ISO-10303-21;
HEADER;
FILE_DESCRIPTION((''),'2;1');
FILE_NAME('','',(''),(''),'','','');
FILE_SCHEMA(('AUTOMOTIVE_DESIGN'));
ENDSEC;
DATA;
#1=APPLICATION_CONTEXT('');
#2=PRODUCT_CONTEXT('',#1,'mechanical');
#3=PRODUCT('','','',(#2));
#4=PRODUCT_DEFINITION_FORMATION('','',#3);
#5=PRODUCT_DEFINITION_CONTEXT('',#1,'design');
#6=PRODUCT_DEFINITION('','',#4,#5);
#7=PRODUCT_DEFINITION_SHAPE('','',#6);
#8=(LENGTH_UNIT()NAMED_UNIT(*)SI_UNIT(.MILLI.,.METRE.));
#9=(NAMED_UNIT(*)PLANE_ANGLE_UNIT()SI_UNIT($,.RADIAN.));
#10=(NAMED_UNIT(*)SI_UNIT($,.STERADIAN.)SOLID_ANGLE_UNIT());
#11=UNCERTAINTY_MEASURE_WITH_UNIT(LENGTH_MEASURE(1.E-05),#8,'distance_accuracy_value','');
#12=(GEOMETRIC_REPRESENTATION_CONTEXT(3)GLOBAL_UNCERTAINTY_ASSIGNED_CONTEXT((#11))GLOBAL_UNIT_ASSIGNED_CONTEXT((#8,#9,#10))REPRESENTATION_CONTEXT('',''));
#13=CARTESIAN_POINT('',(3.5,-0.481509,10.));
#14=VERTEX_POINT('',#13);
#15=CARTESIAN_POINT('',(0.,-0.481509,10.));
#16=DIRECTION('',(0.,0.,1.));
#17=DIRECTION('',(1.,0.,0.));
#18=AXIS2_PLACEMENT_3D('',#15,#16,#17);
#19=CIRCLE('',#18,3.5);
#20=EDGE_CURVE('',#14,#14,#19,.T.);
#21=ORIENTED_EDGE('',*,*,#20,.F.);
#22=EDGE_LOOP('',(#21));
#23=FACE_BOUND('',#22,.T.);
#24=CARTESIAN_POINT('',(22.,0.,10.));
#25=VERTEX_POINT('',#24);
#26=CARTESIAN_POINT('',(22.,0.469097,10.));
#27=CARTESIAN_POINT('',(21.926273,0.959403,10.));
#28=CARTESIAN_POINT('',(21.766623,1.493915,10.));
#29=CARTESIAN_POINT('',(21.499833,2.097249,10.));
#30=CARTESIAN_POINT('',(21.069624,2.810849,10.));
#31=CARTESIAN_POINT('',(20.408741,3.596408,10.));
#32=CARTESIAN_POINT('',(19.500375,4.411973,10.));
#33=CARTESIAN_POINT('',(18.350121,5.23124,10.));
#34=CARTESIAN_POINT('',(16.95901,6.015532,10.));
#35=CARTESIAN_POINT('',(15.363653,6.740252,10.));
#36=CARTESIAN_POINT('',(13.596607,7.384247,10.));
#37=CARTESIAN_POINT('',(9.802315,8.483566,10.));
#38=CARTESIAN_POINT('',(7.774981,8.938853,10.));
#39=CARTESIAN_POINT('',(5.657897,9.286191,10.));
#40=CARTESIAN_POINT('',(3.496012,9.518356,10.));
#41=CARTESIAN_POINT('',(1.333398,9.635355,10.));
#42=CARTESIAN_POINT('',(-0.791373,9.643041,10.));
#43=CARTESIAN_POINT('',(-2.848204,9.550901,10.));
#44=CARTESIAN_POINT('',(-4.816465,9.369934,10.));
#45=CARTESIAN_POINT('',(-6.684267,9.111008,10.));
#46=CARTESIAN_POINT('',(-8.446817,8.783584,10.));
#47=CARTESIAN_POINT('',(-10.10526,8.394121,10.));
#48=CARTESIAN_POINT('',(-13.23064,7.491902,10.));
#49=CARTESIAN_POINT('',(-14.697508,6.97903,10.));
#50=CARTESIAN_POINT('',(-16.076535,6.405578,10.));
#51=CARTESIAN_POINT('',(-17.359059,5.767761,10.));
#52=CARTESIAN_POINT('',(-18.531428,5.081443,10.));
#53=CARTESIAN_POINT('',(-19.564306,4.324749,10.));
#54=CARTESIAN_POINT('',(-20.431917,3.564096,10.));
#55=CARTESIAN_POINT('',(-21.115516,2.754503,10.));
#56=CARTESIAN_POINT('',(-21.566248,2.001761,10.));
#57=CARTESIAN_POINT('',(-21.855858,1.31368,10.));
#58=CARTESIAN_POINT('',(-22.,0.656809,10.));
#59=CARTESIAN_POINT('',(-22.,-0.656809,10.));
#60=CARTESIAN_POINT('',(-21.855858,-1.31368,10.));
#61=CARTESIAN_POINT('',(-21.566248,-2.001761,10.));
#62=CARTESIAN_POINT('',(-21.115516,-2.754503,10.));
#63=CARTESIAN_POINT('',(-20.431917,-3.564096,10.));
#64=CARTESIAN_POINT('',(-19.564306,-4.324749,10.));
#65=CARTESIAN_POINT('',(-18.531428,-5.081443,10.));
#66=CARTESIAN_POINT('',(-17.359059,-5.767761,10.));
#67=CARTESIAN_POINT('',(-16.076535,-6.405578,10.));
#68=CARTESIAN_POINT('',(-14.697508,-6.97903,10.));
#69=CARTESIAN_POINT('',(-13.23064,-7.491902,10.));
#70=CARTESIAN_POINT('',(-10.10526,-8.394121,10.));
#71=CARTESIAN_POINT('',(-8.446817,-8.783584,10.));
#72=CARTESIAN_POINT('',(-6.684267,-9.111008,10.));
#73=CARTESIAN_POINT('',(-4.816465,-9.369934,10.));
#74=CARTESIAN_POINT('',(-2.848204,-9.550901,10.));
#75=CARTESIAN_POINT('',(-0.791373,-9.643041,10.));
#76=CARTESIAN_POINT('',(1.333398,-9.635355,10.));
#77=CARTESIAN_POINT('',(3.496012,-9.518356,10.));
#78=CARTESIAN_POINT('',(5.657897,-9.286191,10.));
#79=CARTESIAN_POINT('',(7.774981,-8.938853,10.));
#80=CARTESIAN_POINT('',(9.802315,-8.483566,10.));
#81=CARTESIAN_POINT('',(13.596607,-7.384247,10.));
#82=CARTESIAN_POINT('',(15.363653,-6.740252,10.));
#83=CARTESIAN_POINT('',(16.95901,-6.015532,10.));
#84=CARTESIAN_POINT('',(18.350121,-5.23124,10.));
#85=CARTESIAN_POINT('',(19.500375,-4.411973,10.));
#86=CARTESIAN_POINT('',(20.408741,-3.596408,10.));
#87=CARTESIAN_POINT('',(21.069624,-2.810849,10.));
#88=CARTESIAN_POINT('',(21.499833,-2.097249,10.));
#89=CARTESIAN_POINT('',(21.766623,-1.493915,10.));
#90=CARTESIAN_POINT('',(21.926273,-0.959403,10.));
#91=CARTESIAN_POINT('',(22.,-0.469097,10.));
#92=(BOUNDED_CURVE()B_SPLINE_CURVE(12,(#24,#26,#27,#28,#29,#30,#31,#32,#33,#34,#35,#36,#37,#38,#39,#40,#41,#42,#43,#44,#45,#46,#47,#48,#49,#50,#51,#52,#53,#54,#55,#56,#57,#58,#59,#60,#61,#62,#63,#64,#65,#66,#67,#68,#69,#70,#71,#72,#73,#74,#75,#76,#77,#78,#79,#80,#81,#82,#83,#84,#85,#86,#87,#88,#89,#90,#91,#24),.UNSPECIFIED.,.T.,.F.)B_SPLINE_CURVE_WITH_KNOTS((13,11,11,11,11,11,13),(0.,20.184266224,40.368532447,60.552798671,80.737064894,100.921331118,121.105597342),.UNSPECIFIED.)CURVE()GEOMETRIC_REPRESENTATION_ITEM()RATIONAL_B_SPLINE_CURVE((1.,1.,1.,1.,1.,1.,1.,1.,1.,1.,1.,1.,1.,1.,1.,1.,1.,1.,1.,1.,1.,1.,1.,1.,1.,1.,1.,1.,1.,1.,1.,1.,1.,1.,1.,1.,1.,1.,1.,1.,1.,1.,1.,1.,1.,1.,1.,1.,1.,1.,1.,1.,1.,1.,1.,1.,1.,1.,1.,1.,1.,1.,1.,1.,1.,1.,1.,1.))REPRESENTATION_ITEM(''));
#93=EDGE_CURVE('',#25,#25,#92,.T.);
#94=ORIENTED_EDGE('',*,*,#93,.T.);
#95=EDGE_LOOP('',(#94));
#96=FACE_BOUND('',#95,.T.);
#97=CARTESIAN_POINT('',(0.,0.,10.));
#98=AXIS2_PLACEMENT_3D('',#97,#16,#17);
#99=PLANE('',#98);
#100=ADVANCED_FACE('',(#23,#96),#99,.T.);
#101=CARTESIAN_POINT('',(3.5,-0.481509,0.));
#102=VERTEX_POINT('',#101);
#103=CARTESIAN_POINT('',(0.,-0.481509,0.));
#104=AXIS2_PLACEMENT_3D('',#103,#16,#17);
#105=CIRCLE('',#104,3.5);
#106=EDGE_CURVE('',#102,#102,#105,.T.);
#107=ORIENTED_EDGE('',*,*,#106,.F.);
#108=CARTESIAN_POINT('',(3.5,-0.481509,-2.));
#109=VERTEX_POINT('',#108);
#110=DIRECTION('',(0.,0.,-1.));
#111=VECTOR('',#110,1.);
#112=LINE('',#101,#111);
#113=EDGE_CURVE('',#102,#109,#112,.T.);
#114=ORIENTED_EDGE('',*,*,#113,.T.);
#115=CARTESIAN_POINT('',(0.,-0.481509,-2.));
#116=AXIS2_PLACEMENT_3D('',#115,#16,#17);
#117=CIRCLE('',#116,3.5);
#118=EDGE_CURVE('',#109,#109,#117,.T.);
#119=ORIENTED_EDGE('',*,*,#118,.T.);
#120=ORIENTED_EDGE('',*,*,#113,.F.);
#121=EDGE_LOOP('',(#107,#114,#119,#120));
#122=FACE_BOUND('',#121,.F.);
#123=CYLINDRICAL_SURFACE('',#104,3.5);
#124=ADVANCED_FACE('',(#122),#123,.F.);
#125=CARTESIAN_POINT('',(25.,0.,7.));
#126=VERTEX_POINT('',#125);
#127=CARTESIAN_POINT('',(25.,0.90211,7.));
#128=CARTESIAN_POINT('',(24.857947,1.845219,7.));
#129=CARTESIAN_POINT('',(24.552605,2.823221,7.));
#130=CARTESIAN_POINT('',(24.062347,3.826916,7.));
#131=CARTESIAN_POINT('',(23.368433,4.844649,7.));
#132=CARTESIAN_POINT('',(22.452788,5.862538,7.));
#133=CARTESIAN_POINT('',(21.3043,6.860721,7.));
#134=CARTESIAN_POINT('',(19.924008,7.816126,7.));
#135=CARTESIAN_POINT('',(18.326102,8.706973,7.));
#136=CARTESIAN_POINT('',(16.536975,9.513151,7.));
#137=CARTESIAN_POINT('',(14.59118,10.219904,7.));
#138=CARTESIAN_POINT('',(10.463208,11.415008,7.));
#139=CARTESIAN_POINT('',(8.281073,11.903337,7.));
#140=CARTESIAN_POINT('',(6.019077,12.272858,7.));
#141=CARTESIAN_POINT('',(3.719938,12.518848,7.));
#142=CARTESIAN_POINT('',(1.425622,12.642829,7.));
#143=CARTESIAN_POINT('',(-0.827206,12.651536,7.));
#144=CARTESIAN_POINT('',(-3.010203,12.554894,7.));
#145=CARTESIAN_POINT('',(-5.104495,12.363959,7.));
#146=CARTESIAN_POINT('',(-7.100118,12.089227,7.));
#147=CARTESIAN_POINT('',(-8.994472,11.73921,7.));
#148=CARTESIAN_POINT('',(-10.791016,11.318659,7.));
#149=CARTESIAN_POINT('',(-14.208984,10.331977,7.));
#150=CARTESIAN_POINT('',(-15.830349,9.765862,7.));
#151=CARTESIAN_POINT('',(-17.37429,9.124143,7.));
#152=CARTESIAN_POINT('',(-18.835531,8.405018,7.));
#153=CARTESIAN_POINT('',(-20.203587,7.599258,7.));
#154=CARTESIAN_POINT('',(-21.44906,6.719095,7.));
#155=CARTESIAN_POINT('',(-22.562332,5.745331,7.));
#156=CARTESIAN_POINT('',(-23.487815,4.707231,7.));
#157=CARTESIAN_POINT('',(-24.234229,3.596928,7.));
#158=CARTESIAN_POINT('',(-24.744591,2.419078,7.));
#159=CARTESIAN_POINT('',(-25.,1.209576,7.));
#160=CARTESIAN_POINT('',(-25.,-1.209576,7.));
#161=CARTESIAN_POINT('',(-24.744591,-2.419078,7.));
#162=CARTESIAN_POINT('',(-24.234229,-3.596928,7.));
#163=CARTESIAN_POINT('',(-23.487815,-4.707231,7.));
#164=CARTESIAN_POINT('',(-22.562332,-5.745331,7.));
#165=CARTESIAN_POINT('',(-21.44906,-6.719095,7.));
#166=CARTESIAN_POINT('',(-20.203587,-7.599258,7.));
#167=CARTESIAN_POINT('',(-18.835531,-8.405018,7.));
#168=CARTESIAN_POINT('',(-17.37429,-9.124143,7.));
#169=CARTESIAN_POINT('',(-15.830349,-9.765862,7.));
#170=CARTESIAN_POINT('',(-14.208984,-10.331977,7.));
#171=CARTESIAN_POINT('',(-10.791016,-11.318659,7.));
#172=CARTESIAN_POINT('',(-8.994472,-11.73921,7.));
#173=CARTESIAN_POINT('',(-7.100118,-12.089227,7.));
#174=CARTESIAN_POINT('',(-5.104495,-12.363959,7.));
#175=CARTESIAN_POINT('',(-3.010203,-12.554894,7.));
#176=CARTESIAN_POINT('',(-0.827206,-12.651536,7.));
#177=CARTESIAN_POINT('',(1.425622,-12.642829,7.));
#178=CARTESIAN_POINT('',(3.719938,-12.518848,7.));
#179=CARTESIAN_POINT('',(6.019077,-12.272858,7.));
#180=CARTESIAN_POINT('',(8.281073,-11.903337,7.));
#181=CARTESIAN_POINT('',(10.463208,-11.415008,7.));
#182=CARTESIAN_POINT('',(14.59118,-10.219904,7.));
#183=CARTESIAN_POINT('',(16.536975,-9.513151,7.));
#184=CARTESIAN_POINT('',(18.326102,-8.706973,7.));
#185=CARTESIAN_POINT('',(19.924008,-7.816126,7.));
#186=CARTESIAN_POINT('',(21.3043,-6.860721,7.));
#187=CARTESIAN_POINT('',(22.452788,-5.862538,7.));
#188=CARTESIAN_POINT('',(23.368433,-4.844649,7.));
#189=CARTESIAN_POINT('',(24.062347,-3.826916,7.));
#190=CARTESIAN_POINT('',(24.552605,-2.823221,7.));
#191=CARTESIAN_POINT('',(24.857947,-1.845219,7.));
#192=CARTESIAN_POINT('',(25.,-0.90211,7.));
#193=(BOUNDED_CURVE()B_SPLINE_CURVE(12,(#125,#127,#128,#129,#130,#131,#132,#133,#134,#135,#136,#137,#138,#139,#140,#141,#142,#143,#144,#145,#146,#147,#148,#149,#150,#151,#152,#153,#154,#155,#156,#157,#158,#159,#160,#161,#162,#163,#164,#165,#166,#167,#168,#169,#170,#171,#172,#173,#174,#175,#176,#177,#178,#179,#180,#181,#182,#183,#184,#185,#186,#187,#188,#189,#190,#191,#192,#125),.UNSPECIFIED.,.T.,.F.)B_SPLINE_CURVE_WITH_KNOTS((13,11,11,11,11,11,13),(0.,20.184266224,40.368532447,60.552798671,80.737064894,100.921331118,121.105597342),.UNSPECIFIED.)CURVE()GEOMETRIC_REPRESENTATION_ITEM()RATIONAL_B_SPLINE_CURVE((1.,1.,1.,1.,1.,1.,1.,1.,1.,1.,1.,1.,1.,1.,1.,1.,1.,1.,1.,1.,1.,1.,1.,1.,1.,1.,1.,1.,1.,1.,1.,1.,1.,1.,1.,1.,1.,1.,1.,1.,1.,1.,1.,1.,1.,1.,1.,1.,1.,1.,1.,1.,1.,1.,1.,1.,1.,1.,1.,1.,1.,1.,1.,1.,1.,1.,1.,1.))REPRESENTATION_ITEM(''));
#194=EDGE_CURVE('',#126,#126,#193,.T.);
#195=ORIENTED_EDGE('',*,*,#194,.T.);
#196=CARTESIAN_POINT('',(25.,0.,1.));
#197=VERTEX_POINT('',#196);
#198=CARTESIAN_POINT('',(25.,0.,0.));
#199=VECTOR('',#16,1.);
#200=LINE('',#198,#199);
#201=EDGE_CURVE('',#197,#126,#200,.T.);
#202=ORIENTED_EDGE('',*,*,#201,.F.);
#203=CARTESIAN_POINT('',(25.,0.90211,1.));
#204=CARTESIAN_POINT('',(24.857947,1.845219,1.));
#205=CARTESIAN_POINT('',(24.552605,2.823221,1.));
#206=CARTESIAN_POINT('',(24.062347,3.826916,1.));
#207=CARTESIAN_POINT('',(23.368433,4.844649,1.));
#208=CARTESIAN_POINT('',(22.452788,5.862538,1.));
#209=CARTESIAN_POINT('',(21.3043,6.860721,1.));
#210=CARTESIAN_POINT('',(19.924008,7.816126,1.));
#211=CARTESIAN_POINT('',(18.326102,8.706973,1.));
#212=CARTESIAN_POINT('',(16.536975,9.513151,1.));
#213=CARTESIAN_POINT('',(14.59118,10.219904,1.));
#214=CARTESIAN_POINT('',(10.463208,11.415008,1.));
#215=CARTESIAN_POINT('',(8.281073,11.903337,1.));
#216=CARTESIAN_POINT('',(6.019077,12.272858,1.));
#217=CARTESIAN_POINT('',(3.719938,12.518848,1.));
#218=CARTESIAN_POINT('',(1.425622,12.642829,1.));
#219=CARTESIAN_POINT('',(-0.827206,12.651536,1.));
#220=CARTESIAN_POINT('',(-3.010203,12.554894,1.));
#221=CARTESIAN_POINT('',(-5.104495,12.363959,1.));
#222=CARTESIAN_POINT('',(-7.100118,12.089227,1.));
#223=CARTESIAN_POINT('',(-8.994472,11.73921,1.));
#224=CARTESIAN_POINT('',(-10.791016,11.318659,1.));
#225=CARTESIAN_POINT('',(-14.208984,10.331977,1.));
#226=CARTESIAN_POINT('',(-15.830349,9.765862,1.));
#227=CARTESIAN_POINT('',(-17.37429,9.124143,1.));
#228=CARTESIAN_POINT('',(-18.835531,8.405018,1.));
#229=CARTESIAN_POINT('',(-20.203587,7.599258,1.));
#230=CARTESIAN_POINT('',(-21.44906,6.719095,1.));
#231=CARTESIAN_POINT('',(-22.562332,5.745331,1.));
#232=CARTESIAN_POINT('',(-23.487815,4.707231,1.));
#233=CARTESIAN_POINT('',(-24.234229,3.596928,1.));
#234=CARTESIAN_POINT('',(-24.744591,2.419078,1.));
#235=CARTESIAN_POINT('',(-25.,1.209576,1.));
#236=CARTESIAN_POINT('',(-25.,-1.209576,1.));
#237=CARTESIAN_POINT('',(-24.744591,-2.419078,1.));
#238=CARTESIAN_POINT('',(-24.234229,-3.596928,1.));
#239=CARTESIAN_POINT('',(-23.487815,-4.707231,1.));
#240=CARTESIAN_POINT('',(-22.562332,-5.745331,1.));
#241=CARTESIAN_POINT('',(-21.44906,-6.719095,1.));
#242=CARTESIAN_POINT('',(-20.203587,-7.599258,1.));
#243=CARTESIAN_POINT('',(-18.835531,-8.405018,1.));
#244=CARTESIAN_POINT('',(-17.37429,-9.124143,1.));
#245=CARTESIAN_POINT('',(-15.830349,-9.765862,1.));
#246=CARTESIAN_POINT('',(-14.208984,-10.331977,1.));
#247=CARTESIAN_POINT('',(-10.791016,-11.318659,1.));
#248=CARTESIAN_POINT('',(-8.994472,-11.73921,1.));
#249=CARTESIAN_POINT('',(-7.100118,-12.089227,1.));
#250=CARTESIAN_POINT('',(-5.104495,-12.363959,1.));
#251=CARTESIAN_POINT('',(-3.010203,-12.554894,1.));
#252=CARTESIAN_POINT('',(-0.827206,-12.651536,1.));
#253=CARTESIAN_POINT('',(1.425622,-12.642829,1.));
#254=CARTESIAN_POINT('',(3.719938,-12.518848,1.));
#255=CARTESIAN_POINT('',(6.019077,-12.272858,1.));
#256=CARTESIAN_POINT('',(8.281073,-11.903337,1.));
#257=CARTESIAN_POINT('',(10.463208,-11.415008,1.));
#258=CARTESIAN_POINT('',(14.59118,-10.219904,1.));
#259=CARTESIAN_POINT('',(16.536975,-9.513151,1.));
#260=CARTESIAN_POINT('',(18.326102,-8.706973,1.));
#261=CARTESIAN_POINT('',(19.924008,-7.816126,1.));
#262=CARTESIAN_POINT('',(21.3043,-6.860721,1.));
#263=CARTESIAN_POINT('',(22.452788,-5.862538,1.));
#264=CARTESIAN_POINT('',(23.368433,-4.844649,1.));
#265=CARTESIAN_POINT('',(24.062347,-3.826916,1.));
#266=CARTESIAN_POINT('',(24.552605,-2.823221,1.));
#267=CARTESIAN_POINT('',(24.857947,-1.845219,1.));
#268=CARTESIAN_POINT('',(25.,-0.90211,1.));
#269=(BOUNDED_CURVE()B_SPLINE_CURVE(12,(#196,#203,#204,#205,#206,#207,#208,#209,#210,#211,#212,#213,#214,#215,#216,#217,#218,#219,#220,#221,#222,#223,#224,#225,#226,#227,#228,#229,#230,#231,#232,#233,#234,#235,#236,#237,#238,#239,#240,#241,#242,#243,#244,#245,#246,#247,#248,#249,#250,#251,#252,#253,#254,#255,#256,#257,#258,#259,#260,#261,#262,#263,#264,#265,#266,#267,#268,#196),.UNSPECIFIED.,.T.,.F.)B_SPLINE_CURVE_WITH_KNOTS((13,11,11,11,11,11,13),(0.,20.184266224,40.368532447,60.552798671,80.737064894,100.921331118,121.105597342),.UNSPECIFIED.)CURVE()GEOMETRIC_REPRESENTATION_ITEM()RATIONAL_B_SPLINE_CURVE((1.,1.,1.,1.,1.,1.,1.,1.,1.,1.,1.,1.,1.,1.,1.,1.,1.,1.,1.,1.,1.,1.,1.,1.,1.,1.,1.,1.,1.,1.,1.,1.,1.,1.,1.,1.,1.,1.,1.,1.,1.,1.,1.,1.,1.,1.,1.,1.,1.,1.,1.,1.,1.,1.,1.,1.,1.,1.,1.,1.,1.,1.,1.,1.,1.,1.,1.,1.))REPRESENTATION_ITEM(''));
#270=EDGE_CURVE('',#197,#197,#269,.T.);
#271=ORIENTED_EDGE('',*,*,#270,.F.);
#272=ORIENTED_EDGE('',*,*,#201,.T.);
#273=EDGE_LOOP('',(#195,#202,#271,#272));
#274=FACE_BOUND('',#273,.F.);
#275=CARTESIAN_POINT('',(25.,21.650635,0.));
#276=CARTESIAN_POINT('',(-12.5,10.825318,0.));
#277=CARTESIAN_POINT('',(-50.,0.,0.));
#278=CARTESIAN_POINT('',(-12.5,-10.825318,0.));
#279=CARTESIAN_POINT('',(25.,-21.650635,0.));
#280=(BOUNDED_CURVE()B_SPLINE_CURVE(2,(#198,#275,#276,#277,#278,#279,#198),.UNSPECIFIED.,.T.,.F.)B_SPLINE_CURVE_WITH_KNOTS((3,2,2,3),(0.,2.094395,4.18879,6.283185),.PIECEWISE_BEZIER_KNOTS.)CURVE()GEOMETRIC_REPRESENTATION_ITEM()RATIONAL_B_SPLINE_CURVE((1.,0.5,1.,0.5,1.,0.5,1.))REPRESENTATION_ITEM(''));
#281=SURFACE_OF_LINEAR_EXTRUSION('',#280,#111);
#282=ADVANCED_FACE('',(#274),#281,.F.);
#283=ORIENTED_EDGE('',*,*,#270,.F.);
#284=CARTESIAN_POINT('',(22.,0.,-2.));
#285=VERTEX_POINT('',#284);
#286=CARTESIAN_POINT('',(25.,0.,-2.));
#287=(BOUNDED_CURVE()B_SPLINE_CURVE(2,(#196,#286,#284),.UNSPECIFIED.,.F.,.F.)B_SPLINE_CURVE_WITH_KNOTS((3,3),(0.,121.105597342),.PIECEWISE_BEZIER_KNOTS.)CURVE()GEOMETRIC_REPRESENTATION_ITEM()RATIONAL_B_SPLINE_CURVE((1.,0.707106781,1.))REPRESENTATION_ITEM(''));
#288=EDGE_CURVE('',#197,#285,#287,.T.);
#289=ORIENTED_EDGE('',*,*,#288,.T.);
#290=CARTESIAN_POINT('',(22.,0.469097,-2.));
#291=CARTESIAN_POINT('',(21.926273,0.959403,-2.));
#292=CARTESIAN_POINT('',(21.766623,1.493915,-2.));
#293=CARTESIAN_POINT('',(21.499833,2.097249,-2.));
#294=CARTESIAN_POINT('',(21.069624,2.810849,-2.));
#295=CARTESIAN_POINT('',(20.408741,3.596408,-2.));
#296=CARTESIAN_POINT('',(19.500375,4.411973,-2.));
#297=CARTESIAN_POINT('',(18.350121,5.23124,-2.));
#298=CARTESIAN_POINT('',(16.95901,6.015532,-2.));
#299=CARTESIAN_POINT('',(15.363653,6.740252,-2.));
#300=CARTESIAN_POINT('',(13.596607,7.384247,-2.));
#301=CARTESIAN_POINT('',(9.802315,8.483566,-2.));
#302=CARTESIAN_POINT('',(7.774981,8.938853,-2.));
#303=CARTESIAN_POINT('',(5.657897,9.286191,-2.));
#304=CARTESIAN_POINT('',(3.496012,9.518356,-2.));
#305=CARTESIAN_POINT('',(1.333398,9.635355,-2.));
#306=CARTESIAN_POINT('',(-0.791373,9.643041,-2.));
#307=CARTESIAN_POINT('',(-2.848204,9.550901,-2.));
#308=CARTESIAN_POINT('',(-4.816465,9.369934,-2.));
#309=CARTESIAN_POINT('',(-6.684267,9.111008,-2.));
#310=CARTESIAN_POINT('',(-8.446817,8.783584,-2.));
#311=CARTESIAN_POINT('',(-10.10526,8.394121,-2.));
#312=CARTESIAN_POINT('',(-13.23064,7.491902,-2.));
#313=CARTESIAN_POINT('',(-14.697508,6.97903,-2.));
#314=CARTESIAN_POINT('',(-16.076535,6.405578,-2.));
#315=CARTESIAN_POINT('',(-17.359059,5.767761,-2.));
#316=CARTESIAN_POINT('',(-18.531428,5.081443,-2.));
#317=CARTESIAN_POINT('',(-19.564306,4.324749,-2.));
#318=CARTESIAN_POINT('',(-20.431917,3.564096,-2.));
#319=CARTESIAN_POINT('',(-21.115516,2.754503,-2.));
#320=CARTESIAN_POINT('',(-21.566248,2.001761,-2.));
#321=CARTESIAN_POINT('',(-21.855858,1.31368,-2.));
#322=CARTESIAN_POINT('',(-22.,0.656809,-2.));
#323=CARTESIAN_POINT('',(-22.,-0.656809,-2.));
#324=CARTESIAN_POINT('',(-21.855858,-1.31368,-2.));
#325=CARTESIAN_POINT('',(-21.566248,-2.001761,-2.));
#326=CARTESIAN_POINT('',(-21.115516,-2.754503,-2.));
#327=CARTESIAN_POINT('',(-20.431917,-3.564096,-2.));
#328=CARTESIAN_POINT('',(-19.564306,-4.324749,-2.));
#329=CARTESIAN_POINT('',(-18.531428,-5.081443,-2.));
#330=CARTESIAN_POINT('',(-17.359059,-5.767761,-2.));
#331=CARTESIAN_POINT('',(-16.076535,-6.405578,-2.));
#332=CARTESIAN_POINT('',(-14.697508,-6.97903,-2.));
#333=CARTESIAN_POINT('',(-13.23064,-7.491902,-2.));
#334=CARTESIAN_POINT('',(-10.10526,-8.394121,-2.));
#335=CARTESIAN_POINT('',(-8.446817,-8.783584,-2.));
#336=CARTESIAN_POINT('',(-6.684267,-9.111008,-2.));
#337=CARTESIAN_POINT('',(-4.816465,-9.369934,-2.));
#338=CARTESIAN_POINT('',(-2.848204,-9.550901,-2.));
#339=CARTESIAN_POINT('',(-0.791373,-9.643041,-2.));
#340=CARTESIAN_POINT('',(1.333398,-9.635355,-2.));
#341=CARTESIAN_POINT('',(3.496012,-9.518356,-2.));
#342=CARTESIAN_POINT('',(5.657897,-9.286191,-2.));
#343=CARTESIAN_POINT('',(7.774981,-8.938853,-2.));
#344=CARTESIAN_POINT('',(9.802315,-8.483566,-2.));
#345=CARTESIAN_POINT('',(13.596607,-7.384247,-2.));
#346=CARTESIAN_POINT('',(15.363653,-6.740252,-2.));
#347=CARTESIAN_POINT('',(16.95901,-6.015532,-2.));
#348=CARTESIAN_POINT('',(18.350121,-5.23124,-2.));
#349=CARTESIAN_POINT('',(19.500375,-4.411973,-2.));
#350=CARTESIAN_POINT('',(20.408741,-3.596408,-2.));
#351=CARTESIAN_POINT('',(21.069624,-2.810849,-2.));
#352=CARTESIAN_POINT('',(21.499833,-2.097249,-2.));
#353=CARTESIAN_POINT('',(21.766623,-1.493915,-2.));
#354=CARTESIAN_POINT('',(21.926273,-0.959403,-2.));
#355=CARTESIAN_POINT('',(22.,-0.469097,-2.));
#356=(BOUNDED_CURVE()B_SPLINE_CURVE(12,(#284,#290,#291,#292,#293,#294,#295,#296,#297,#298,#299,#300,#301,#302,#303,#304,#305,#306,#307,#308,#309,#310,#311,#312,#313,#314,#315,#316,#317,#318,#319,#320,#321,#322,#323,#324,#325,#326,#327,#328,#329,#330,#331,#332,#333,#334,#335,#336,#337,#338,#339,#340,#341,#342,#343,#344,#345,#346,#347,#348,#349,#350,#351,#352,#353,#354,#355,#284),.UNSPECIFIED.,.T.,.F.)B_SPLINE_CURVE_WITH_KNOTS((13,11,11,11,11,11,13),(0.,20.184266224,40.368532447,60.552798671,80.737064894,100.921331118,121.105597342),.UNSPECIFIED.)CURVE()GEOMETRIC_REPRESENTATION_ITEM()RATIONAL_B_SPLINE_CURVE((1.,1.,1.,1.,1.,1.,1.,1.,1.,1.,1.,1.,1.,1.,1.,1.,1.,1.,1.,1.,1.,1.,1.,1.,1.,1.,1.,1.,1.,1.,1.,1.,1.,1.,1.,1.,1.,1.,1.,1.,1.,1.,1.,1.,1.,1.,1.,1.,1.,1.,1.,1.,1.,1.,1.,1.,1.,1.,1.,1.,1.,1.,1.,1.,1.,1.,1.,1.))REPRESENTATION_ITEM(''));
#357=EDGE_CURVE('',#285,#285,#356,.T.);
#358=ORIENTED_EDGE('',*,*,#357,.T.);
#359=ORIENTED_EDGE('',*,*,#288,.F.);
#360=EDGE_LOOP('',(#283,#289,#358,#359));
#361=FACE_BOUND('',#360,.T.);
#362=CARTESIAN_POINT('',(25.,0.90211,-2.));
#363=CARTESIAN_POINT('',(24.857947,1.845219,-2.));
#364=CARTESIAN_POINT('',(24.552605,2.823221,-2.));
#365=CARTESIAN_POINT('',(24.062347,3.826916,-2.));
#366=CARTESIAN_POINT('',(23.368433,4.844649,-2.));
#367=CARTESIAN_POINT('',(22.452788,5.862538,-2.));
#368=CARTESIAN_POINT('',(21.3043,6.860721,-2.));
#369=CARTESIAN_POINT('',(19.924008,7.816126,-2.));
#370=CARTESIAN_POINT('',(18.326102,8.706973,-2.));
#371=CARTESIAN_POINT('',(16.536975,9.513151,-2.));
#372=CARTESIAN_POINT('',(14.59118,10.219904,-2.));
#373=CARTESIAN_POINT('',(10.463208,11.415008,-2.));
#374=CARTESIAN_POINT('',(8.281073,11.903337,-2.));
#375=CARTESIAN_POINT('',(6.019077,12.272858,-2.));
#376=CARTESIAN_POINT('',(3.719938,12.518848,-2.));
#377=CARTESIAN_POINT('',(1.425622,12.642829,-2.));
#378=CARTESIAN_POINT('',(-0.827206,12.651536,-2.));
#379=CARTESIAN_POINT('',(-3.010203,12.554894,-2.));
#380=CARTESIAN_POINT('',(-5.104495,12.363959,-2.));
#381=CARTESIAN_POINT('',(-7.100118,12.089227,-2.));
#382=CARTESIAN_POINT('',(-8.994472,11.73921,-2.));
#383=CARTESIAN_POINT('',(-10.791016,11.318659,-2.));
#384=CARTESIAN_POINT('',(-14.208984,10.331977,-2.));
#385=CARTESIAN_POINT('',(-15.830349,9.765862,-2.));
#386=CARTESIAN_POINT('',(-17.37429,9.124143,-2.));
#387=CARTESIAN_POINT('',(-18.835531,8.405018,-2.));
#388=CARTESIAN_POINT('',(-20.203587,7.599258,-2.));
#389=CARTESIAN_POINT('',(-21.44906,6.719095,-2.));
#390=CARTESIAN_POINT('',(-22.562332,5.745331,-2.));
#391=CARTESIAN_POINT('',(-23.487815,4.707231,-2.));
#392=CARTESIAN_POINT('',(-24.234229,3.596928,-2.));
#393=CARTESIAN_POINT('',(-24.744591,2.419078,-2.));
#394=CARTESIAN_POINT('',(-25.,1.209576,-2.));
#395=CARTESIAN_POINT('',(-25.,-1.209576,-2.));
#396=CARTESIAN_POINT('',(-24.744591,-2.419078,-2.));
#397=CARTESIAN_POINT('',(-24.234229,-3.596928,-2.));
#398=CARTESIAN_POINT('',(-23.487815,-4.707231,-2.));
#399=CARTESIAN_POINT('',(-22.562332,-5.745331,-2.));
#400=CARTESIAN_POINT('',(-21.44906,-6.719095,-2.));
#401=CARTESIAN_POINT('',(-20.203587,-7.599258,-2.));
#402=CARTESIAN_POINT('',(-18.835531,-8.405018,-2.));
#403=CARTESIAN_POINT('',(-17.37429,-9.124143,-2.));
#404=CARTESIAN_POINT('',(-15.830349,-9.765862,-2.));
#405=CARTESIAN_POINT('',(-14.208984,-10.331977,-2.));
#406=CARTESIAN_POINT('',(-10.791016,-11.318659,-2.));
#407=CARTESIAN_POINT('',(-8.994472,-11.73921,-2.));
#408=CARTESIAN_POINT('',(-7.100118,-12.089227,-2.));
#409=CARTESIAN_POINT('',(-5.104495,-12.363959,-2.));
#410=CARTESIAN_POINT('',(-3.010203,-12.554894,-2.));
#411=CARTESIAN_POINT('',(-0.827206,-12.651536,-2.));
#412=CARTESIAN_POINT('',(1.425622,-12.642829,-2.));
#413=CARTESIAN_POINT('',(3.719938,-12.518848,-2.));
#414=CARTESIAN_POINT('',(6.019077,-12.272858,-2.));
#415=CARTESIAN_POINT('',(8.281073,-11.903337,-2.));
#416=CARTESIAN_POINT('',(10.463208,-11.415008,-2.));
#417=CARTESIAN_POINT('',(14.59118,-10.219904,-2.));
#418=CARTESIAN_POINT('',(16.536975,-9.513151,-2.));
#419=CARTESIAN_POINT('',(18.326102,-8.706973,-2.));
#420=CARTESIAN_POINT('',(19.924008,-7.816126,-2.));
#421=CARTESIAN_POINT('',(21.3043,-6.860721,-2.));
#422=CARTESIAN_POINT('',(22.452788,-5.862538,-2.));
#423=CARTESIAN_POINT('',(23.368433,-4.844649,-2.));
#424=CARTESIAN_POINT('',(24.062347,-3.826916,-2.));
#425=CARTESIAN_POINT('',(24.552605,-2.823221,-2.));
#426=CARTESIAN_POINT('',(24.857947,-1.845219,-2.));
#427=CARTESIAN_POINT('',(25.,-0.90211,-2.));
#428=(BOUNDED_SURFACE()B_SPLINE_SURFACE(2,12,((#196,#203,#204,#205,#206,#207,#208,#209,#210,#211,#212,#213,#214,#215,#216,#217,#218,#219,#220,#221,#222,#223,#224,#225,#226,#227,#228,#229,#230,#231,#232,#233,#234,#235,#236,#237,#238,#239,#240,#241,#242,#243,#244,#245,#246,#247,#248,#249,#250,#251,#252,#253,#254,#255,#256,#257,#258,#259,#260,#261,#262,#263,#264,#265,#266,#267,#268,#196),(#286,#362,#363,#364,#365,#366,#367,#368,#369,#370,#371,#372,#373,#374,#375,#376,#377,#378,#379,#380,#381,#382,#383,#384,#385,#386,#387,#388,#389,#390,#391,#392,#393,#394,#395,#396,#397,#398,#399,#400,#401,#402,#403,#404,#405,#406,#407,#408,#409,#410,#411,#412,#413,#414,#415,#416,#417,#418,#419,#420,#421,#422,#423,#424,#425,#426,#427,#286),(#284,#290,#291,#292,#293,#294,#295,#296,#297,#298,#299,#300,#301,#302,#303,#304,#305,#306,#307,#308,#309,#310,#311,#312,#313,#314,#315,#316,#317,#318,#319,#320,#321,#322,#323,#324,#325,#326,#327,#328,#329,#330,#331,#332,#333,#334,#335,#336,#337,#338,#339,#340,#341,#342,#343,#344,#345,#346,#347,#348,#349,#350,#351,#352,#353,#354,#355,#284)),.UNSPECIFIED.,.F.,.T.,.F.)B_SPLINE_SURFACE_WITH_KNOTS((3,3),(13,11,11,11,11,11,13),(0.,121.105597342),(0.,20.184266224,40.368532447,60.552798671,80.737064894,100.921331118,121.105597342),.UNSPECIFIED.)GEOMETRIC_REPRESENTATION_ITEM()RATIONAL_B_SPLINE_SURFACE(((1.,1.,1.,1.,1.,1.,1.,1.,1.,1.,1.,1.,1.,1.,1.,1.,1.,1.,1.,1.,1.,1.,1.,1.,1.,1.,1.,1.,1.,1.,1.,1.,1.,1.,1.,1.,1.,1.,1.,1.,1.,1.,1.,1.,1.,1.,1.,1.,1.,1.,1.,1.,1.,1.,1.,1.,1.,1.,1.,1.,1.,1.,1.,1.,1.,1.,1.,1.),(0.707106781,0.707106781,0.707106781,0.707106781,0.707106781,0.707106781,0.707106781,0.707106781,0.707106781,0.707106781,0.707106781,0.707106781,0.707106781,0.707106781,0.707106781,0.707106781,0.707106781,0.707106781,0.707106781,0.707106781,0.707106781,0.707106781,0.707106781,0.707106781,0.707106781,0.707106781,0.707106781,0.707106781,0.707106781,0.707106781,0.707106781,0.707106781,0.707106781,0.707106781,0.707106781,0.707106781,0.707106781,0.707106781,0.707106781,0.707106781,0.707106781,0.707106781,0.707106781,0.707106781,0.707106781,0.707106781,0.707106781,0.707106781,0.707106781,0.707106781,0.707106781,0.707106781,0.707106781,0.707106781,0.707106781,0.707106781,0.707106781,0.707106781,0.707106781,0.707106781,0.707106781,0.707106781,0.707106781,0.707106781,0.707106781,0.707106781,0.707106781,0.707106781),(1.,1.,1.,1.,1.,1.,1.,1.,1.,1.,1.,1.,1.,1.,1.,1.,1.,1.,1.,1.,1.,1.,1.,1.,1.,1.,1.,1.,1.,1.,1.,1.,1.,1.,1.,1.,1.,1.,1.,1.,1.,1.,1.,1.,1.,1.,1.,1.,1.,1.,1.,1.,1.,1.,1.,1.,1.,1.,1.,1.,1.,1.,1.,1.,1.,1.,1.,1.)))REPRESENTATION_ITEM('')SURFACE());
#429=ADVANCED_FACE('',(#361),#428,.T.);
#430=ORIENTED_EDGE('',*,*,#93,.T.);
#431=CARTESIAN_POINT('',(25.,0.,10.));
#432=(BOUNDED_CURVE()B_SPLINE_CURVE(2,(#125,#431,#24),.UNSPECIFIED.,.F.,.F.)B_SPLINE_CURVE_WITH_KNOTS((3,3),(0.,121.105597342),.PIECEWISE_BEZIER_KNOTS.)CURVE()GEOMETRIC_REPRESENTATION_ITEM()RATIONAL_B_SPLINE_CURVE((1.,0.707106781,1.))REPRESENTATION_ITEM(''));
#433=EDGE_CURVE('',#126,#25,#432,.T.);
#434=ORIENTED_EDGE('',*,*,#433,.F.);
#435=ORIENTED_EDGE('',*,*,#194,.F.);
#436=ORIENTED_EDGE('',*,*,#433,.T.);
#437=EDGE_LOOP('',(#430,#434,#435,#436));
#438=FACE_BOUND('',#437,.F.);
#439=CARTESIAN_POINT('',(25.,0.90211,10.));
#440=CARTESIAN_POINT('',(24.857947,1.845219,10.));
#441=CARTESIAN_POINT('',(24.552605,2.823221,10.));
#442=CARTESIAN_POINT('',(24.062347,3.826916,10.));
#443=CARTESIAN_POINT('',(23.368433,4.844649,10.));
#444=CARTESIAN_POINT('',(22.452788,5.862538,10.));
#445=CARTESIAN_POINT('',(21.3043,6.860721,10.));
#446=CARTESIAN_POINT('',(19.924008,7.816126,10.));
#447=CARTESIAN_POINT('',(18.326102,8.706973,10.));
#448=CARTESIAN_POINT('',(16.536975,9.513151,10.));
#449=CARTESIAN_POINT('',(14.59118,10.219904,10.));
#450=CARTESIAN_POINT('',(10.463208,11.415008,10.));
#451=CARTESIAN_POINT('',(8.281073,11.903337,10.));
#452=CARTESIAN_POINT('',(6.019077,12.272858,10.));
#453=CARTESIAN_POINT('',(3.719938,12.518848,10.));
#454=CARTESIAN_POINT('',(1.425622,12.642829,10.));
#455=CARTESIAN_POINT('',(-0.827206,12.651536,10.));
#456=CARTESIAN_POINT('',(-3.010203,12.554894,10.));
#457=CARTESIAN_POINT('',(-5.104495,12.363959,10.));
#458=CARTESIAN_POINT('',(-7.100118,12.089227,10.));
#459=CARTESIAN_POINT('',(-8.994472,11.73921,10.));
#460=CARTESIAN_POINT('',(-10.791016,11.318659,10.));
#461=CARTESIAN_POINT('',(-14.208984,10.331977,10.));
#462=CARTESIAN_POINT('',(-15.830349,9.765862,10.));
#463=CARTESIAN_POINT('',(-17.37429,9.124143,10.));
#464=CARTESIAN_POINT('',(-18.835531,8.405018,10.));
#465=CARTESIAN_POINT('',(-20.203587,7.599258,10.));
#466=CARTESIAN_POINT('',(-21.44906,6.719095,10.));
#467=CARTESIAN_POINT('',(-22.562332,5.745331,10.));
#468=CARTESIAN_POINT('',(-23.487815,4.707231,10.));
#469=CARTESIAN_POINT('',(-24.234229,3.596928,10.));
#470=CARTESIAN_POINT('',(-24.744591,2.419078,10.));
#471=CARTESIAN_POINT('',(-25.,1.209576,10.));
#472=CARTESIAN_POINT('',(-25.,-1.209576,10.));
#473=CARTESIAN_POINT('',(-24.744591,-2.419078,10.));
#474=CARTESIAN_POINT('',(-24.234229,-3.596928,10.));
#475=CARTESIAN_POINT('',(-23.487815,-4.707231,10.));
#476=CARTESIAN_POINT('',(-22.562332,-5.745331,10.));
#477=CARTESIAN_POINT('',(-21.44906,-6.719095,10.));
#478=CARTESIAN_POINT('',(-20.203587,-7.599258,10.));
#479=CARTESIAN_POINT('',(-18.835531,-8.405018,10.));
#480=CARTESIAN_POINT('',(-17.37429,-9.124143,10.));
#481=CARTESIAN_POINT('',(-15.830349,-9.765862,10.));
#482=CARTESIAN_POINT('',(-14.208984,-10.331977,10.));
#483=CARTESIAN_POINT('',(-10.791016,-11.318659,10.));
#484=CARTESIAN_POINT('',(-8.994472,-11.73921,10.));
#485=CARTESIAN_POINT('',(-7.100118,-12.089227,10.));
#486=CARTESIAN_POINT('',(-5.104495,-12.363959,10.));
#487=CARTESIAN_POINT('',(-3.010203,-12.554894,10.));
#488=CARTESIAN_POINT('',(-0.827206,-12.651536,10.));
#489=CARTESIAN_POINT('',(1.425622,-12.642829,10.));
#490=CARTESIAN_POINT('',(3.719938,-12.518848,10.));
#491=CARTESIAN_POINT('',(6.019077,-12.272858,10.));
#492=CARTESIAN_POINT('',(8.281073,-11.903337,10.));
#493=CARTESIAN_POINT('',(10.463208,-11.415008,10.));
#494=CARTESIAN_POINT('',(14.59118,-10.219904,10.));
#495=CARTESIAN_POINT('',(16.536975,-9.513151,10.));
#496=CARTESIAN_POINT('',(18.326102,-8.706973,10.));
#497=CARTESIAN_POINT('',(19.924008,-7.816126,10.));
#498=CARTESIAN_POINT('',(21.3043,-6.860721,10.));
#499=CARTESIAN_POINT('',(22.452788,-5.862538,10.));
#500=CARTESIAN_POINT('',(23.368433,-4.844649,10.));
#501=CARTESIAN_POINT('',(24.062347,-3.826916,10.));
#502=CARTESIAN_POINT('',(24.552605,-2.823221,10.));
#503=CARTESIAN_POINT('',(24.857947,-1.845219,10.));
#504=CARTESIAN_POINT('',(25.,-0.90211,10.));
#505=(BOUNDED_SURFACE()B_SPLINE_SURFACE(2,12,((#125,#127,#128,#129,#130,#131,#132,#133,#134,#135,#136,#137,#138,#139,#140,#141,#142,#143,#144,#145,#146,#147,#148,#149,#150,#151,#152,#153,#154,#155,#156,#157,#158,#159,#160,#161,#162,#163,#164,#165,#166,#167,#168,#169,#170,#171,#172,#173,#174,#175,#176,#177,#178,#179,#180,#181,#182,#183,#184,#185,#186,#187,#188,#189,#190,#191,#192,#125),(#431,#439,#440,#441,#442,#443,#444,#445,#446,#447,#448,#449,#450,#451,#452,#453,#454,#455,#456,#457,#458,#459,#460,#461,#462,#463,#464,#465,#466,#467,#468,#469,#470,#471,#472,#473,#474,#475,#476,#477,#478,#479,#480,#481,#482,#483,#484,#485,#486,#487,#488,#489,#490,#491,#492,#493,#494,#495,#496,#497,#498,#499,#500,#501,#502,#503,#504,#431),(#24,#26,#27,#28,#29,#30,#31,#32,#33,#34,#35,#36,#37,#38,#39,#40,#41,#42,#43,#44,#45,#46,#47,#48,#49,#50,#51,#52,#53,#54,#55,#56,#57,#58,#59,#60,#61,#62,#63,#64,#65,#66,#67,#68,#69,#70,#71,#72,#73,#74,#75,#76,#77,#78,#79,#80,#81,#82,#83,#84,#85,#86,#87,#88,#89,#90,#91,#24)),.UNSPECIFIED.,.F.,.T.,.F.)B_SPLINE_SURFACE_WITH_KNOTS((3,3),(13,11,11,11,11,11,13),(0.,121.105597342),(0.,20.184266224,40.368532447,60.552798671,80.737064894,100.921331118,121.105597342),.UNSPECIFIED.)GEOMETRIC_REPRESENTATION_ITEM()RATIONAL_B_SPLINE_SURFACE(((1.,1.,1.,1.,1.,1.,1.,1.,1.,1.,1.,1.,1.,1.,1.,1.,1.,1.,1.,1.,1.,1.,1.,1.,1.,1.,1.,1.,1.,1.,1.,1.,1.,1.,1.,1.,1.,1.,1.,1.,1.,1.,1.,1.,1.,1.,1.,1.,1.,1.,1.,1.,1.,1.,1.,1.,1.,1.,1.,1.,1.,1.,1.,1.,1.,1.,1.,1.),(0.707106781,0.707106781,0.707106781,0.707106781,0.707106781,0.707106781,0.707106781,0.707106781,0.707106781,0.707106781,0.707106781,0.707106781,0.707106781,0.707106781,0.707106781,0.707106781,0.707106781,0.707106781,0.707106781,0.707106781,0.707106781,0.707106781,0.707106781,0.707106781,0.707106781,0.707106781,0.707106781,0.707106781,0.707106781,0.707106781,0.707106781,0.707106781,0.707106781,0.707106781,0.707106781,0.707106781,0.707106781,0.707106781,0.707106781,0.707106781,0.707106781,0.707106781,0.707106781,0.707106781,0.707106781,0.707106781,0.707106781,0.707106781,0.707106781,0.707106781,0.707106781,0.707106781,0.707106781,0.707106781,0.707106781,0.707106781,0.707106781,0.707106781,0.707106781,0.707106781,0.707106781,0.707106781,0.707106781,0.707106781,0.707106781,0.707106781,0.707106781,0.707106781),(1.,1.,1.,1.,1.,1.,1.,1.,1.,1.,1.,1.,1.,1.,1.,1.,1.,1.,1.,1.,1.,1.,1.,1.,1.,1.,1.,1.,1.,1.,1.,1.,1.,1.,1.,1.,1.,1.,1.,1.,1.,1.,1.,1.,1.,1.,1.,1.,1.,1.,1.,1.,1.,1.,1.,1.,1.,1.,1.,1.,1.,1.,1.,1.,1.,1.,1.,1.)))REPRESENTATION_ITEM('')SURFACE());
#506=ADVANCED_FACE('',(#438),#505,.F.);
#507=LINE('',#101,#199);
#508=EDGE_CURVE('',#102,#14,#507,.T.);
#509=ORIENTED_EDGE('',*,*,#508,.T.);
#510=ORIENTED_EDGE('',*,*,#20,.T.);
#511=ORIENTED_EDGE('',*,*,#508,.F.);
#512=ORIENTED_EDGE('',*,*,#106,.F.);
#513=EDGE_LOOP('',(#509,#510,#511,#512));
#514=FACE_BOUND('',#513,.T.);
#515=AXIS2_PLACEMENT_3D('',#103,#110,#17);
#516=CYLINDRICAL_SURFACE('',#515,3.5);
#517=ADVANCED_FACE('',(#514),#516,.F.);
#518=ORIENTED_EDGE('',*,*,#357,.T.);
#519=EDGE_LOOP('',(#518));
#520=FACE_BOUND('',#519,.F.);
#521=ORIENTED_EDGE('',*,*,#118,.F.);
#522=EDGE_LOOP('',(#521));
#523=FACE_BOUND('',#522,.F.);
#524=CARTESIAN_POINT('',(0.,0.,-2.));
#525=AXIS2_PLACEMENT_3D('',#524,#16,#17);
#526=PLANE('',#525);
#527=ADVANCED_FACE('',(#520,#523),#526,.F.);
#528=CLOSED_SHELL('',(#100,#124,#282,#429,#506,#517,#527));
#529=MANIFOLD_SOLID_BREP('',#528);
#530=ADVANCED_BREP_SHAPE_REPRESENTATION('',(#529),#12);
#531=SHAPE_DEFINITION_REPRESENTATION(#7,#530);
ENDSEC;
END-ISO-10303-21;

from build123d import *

# Parameters (mm, degrees)
F0_R      = 11
F0_R_2    = 3.5
F1_DEPTH  = 2
F2_R      = 11
F1_FACE_R = 3.5
F3_DEPTH  = 10
F4_R      = 3


with BuildPart() as f1:
    # F0 (on Top) → F1 (new body)
    with BuildSketch(Plane.XY):
        with BuildLine():
            add(Edge.make_bspline(
                [(25, 0), (25, 21.650635), (-12.5, 10.825318), (-50, 0), (-12.5, -10.825318), (25, -21.650635), (25, 0)],
                knots=[0, 0, 0, 2.094395, 2.094395, 4.18879, 4.18879, 6.283185, 6.283185, 6.283185], degree=2, weights=[1, 0.5, 1, 0.5, 1, 0.5, 1]))
        make_face()
        Circle(F0_R, mode=Mode.SUBTRACT)
        Circle(F0_R)
        with Locations((0, -0.481509)):
            Circle(F0_R_2, mode=Mode.SUBTRACT)
    extrude(amount=-F1_DEPTH)

    # F2 (on face) + F1_face (on face) → F3 (join)
    with BuildSketch(Plane.XY):
        with BuildLine():
            add(Edge.make_bspline(
                [(25, 0), (25, 21.650635), (-12.5, 10.825318), (-50, 0), (-12.5, -10.825318), (25, -21.650635), (25, 0)],
                knots=[0, 0, 0, 2.094395, 2.094395, 4.18879, 4.18879, 6.283185, 6.283185, 6.283185], degree=2, weights=[1, 0.5, 1, 0.5, 1, 0.5, 1]))
        make_face()
        Circle(F2_R, mode=Mode.SUBTRACT)
    with BuildSketch(Plane(origin=(0.138209, 0.019734, 0), x_dir=(1, 0, 0), z_dir=(0, 0, 1))):
        with BuildLine():
            add(Edge.make_bspline(
                [(24.861791, -0.019734), (24.861791, 21.630901), (-12.638209, 10.805584), (-50.138209, -0.019734), (-12.638209, -10.845051), (24.861791, -21.670369), (24.861791, -0.019734)],
                knots=[0, 0, 0, 2.094395, 2.094395, 4.18879, 4.18879, 6.283185, 6.283185, 6.283185], degree=2, weights=[1, 0.5, 1, 0.5, 1, 0.5, 1]))
        make_face()
        with Locations((-0.138209, -0.501243)):
            Circle(F1_FACE_R, mode=Mode.SUBTRACT)
    extrude(amount=F3_DEPTH)

    # F4
    f4_edges = [f1.edges().sort_by_distance(p)[0] for p in [
        (-25, 3e-06, -2),
        (-25, 3e-06, 10),
    ]]
    fillet(f4_edges, radius=F4_R)


solid = f1.part
